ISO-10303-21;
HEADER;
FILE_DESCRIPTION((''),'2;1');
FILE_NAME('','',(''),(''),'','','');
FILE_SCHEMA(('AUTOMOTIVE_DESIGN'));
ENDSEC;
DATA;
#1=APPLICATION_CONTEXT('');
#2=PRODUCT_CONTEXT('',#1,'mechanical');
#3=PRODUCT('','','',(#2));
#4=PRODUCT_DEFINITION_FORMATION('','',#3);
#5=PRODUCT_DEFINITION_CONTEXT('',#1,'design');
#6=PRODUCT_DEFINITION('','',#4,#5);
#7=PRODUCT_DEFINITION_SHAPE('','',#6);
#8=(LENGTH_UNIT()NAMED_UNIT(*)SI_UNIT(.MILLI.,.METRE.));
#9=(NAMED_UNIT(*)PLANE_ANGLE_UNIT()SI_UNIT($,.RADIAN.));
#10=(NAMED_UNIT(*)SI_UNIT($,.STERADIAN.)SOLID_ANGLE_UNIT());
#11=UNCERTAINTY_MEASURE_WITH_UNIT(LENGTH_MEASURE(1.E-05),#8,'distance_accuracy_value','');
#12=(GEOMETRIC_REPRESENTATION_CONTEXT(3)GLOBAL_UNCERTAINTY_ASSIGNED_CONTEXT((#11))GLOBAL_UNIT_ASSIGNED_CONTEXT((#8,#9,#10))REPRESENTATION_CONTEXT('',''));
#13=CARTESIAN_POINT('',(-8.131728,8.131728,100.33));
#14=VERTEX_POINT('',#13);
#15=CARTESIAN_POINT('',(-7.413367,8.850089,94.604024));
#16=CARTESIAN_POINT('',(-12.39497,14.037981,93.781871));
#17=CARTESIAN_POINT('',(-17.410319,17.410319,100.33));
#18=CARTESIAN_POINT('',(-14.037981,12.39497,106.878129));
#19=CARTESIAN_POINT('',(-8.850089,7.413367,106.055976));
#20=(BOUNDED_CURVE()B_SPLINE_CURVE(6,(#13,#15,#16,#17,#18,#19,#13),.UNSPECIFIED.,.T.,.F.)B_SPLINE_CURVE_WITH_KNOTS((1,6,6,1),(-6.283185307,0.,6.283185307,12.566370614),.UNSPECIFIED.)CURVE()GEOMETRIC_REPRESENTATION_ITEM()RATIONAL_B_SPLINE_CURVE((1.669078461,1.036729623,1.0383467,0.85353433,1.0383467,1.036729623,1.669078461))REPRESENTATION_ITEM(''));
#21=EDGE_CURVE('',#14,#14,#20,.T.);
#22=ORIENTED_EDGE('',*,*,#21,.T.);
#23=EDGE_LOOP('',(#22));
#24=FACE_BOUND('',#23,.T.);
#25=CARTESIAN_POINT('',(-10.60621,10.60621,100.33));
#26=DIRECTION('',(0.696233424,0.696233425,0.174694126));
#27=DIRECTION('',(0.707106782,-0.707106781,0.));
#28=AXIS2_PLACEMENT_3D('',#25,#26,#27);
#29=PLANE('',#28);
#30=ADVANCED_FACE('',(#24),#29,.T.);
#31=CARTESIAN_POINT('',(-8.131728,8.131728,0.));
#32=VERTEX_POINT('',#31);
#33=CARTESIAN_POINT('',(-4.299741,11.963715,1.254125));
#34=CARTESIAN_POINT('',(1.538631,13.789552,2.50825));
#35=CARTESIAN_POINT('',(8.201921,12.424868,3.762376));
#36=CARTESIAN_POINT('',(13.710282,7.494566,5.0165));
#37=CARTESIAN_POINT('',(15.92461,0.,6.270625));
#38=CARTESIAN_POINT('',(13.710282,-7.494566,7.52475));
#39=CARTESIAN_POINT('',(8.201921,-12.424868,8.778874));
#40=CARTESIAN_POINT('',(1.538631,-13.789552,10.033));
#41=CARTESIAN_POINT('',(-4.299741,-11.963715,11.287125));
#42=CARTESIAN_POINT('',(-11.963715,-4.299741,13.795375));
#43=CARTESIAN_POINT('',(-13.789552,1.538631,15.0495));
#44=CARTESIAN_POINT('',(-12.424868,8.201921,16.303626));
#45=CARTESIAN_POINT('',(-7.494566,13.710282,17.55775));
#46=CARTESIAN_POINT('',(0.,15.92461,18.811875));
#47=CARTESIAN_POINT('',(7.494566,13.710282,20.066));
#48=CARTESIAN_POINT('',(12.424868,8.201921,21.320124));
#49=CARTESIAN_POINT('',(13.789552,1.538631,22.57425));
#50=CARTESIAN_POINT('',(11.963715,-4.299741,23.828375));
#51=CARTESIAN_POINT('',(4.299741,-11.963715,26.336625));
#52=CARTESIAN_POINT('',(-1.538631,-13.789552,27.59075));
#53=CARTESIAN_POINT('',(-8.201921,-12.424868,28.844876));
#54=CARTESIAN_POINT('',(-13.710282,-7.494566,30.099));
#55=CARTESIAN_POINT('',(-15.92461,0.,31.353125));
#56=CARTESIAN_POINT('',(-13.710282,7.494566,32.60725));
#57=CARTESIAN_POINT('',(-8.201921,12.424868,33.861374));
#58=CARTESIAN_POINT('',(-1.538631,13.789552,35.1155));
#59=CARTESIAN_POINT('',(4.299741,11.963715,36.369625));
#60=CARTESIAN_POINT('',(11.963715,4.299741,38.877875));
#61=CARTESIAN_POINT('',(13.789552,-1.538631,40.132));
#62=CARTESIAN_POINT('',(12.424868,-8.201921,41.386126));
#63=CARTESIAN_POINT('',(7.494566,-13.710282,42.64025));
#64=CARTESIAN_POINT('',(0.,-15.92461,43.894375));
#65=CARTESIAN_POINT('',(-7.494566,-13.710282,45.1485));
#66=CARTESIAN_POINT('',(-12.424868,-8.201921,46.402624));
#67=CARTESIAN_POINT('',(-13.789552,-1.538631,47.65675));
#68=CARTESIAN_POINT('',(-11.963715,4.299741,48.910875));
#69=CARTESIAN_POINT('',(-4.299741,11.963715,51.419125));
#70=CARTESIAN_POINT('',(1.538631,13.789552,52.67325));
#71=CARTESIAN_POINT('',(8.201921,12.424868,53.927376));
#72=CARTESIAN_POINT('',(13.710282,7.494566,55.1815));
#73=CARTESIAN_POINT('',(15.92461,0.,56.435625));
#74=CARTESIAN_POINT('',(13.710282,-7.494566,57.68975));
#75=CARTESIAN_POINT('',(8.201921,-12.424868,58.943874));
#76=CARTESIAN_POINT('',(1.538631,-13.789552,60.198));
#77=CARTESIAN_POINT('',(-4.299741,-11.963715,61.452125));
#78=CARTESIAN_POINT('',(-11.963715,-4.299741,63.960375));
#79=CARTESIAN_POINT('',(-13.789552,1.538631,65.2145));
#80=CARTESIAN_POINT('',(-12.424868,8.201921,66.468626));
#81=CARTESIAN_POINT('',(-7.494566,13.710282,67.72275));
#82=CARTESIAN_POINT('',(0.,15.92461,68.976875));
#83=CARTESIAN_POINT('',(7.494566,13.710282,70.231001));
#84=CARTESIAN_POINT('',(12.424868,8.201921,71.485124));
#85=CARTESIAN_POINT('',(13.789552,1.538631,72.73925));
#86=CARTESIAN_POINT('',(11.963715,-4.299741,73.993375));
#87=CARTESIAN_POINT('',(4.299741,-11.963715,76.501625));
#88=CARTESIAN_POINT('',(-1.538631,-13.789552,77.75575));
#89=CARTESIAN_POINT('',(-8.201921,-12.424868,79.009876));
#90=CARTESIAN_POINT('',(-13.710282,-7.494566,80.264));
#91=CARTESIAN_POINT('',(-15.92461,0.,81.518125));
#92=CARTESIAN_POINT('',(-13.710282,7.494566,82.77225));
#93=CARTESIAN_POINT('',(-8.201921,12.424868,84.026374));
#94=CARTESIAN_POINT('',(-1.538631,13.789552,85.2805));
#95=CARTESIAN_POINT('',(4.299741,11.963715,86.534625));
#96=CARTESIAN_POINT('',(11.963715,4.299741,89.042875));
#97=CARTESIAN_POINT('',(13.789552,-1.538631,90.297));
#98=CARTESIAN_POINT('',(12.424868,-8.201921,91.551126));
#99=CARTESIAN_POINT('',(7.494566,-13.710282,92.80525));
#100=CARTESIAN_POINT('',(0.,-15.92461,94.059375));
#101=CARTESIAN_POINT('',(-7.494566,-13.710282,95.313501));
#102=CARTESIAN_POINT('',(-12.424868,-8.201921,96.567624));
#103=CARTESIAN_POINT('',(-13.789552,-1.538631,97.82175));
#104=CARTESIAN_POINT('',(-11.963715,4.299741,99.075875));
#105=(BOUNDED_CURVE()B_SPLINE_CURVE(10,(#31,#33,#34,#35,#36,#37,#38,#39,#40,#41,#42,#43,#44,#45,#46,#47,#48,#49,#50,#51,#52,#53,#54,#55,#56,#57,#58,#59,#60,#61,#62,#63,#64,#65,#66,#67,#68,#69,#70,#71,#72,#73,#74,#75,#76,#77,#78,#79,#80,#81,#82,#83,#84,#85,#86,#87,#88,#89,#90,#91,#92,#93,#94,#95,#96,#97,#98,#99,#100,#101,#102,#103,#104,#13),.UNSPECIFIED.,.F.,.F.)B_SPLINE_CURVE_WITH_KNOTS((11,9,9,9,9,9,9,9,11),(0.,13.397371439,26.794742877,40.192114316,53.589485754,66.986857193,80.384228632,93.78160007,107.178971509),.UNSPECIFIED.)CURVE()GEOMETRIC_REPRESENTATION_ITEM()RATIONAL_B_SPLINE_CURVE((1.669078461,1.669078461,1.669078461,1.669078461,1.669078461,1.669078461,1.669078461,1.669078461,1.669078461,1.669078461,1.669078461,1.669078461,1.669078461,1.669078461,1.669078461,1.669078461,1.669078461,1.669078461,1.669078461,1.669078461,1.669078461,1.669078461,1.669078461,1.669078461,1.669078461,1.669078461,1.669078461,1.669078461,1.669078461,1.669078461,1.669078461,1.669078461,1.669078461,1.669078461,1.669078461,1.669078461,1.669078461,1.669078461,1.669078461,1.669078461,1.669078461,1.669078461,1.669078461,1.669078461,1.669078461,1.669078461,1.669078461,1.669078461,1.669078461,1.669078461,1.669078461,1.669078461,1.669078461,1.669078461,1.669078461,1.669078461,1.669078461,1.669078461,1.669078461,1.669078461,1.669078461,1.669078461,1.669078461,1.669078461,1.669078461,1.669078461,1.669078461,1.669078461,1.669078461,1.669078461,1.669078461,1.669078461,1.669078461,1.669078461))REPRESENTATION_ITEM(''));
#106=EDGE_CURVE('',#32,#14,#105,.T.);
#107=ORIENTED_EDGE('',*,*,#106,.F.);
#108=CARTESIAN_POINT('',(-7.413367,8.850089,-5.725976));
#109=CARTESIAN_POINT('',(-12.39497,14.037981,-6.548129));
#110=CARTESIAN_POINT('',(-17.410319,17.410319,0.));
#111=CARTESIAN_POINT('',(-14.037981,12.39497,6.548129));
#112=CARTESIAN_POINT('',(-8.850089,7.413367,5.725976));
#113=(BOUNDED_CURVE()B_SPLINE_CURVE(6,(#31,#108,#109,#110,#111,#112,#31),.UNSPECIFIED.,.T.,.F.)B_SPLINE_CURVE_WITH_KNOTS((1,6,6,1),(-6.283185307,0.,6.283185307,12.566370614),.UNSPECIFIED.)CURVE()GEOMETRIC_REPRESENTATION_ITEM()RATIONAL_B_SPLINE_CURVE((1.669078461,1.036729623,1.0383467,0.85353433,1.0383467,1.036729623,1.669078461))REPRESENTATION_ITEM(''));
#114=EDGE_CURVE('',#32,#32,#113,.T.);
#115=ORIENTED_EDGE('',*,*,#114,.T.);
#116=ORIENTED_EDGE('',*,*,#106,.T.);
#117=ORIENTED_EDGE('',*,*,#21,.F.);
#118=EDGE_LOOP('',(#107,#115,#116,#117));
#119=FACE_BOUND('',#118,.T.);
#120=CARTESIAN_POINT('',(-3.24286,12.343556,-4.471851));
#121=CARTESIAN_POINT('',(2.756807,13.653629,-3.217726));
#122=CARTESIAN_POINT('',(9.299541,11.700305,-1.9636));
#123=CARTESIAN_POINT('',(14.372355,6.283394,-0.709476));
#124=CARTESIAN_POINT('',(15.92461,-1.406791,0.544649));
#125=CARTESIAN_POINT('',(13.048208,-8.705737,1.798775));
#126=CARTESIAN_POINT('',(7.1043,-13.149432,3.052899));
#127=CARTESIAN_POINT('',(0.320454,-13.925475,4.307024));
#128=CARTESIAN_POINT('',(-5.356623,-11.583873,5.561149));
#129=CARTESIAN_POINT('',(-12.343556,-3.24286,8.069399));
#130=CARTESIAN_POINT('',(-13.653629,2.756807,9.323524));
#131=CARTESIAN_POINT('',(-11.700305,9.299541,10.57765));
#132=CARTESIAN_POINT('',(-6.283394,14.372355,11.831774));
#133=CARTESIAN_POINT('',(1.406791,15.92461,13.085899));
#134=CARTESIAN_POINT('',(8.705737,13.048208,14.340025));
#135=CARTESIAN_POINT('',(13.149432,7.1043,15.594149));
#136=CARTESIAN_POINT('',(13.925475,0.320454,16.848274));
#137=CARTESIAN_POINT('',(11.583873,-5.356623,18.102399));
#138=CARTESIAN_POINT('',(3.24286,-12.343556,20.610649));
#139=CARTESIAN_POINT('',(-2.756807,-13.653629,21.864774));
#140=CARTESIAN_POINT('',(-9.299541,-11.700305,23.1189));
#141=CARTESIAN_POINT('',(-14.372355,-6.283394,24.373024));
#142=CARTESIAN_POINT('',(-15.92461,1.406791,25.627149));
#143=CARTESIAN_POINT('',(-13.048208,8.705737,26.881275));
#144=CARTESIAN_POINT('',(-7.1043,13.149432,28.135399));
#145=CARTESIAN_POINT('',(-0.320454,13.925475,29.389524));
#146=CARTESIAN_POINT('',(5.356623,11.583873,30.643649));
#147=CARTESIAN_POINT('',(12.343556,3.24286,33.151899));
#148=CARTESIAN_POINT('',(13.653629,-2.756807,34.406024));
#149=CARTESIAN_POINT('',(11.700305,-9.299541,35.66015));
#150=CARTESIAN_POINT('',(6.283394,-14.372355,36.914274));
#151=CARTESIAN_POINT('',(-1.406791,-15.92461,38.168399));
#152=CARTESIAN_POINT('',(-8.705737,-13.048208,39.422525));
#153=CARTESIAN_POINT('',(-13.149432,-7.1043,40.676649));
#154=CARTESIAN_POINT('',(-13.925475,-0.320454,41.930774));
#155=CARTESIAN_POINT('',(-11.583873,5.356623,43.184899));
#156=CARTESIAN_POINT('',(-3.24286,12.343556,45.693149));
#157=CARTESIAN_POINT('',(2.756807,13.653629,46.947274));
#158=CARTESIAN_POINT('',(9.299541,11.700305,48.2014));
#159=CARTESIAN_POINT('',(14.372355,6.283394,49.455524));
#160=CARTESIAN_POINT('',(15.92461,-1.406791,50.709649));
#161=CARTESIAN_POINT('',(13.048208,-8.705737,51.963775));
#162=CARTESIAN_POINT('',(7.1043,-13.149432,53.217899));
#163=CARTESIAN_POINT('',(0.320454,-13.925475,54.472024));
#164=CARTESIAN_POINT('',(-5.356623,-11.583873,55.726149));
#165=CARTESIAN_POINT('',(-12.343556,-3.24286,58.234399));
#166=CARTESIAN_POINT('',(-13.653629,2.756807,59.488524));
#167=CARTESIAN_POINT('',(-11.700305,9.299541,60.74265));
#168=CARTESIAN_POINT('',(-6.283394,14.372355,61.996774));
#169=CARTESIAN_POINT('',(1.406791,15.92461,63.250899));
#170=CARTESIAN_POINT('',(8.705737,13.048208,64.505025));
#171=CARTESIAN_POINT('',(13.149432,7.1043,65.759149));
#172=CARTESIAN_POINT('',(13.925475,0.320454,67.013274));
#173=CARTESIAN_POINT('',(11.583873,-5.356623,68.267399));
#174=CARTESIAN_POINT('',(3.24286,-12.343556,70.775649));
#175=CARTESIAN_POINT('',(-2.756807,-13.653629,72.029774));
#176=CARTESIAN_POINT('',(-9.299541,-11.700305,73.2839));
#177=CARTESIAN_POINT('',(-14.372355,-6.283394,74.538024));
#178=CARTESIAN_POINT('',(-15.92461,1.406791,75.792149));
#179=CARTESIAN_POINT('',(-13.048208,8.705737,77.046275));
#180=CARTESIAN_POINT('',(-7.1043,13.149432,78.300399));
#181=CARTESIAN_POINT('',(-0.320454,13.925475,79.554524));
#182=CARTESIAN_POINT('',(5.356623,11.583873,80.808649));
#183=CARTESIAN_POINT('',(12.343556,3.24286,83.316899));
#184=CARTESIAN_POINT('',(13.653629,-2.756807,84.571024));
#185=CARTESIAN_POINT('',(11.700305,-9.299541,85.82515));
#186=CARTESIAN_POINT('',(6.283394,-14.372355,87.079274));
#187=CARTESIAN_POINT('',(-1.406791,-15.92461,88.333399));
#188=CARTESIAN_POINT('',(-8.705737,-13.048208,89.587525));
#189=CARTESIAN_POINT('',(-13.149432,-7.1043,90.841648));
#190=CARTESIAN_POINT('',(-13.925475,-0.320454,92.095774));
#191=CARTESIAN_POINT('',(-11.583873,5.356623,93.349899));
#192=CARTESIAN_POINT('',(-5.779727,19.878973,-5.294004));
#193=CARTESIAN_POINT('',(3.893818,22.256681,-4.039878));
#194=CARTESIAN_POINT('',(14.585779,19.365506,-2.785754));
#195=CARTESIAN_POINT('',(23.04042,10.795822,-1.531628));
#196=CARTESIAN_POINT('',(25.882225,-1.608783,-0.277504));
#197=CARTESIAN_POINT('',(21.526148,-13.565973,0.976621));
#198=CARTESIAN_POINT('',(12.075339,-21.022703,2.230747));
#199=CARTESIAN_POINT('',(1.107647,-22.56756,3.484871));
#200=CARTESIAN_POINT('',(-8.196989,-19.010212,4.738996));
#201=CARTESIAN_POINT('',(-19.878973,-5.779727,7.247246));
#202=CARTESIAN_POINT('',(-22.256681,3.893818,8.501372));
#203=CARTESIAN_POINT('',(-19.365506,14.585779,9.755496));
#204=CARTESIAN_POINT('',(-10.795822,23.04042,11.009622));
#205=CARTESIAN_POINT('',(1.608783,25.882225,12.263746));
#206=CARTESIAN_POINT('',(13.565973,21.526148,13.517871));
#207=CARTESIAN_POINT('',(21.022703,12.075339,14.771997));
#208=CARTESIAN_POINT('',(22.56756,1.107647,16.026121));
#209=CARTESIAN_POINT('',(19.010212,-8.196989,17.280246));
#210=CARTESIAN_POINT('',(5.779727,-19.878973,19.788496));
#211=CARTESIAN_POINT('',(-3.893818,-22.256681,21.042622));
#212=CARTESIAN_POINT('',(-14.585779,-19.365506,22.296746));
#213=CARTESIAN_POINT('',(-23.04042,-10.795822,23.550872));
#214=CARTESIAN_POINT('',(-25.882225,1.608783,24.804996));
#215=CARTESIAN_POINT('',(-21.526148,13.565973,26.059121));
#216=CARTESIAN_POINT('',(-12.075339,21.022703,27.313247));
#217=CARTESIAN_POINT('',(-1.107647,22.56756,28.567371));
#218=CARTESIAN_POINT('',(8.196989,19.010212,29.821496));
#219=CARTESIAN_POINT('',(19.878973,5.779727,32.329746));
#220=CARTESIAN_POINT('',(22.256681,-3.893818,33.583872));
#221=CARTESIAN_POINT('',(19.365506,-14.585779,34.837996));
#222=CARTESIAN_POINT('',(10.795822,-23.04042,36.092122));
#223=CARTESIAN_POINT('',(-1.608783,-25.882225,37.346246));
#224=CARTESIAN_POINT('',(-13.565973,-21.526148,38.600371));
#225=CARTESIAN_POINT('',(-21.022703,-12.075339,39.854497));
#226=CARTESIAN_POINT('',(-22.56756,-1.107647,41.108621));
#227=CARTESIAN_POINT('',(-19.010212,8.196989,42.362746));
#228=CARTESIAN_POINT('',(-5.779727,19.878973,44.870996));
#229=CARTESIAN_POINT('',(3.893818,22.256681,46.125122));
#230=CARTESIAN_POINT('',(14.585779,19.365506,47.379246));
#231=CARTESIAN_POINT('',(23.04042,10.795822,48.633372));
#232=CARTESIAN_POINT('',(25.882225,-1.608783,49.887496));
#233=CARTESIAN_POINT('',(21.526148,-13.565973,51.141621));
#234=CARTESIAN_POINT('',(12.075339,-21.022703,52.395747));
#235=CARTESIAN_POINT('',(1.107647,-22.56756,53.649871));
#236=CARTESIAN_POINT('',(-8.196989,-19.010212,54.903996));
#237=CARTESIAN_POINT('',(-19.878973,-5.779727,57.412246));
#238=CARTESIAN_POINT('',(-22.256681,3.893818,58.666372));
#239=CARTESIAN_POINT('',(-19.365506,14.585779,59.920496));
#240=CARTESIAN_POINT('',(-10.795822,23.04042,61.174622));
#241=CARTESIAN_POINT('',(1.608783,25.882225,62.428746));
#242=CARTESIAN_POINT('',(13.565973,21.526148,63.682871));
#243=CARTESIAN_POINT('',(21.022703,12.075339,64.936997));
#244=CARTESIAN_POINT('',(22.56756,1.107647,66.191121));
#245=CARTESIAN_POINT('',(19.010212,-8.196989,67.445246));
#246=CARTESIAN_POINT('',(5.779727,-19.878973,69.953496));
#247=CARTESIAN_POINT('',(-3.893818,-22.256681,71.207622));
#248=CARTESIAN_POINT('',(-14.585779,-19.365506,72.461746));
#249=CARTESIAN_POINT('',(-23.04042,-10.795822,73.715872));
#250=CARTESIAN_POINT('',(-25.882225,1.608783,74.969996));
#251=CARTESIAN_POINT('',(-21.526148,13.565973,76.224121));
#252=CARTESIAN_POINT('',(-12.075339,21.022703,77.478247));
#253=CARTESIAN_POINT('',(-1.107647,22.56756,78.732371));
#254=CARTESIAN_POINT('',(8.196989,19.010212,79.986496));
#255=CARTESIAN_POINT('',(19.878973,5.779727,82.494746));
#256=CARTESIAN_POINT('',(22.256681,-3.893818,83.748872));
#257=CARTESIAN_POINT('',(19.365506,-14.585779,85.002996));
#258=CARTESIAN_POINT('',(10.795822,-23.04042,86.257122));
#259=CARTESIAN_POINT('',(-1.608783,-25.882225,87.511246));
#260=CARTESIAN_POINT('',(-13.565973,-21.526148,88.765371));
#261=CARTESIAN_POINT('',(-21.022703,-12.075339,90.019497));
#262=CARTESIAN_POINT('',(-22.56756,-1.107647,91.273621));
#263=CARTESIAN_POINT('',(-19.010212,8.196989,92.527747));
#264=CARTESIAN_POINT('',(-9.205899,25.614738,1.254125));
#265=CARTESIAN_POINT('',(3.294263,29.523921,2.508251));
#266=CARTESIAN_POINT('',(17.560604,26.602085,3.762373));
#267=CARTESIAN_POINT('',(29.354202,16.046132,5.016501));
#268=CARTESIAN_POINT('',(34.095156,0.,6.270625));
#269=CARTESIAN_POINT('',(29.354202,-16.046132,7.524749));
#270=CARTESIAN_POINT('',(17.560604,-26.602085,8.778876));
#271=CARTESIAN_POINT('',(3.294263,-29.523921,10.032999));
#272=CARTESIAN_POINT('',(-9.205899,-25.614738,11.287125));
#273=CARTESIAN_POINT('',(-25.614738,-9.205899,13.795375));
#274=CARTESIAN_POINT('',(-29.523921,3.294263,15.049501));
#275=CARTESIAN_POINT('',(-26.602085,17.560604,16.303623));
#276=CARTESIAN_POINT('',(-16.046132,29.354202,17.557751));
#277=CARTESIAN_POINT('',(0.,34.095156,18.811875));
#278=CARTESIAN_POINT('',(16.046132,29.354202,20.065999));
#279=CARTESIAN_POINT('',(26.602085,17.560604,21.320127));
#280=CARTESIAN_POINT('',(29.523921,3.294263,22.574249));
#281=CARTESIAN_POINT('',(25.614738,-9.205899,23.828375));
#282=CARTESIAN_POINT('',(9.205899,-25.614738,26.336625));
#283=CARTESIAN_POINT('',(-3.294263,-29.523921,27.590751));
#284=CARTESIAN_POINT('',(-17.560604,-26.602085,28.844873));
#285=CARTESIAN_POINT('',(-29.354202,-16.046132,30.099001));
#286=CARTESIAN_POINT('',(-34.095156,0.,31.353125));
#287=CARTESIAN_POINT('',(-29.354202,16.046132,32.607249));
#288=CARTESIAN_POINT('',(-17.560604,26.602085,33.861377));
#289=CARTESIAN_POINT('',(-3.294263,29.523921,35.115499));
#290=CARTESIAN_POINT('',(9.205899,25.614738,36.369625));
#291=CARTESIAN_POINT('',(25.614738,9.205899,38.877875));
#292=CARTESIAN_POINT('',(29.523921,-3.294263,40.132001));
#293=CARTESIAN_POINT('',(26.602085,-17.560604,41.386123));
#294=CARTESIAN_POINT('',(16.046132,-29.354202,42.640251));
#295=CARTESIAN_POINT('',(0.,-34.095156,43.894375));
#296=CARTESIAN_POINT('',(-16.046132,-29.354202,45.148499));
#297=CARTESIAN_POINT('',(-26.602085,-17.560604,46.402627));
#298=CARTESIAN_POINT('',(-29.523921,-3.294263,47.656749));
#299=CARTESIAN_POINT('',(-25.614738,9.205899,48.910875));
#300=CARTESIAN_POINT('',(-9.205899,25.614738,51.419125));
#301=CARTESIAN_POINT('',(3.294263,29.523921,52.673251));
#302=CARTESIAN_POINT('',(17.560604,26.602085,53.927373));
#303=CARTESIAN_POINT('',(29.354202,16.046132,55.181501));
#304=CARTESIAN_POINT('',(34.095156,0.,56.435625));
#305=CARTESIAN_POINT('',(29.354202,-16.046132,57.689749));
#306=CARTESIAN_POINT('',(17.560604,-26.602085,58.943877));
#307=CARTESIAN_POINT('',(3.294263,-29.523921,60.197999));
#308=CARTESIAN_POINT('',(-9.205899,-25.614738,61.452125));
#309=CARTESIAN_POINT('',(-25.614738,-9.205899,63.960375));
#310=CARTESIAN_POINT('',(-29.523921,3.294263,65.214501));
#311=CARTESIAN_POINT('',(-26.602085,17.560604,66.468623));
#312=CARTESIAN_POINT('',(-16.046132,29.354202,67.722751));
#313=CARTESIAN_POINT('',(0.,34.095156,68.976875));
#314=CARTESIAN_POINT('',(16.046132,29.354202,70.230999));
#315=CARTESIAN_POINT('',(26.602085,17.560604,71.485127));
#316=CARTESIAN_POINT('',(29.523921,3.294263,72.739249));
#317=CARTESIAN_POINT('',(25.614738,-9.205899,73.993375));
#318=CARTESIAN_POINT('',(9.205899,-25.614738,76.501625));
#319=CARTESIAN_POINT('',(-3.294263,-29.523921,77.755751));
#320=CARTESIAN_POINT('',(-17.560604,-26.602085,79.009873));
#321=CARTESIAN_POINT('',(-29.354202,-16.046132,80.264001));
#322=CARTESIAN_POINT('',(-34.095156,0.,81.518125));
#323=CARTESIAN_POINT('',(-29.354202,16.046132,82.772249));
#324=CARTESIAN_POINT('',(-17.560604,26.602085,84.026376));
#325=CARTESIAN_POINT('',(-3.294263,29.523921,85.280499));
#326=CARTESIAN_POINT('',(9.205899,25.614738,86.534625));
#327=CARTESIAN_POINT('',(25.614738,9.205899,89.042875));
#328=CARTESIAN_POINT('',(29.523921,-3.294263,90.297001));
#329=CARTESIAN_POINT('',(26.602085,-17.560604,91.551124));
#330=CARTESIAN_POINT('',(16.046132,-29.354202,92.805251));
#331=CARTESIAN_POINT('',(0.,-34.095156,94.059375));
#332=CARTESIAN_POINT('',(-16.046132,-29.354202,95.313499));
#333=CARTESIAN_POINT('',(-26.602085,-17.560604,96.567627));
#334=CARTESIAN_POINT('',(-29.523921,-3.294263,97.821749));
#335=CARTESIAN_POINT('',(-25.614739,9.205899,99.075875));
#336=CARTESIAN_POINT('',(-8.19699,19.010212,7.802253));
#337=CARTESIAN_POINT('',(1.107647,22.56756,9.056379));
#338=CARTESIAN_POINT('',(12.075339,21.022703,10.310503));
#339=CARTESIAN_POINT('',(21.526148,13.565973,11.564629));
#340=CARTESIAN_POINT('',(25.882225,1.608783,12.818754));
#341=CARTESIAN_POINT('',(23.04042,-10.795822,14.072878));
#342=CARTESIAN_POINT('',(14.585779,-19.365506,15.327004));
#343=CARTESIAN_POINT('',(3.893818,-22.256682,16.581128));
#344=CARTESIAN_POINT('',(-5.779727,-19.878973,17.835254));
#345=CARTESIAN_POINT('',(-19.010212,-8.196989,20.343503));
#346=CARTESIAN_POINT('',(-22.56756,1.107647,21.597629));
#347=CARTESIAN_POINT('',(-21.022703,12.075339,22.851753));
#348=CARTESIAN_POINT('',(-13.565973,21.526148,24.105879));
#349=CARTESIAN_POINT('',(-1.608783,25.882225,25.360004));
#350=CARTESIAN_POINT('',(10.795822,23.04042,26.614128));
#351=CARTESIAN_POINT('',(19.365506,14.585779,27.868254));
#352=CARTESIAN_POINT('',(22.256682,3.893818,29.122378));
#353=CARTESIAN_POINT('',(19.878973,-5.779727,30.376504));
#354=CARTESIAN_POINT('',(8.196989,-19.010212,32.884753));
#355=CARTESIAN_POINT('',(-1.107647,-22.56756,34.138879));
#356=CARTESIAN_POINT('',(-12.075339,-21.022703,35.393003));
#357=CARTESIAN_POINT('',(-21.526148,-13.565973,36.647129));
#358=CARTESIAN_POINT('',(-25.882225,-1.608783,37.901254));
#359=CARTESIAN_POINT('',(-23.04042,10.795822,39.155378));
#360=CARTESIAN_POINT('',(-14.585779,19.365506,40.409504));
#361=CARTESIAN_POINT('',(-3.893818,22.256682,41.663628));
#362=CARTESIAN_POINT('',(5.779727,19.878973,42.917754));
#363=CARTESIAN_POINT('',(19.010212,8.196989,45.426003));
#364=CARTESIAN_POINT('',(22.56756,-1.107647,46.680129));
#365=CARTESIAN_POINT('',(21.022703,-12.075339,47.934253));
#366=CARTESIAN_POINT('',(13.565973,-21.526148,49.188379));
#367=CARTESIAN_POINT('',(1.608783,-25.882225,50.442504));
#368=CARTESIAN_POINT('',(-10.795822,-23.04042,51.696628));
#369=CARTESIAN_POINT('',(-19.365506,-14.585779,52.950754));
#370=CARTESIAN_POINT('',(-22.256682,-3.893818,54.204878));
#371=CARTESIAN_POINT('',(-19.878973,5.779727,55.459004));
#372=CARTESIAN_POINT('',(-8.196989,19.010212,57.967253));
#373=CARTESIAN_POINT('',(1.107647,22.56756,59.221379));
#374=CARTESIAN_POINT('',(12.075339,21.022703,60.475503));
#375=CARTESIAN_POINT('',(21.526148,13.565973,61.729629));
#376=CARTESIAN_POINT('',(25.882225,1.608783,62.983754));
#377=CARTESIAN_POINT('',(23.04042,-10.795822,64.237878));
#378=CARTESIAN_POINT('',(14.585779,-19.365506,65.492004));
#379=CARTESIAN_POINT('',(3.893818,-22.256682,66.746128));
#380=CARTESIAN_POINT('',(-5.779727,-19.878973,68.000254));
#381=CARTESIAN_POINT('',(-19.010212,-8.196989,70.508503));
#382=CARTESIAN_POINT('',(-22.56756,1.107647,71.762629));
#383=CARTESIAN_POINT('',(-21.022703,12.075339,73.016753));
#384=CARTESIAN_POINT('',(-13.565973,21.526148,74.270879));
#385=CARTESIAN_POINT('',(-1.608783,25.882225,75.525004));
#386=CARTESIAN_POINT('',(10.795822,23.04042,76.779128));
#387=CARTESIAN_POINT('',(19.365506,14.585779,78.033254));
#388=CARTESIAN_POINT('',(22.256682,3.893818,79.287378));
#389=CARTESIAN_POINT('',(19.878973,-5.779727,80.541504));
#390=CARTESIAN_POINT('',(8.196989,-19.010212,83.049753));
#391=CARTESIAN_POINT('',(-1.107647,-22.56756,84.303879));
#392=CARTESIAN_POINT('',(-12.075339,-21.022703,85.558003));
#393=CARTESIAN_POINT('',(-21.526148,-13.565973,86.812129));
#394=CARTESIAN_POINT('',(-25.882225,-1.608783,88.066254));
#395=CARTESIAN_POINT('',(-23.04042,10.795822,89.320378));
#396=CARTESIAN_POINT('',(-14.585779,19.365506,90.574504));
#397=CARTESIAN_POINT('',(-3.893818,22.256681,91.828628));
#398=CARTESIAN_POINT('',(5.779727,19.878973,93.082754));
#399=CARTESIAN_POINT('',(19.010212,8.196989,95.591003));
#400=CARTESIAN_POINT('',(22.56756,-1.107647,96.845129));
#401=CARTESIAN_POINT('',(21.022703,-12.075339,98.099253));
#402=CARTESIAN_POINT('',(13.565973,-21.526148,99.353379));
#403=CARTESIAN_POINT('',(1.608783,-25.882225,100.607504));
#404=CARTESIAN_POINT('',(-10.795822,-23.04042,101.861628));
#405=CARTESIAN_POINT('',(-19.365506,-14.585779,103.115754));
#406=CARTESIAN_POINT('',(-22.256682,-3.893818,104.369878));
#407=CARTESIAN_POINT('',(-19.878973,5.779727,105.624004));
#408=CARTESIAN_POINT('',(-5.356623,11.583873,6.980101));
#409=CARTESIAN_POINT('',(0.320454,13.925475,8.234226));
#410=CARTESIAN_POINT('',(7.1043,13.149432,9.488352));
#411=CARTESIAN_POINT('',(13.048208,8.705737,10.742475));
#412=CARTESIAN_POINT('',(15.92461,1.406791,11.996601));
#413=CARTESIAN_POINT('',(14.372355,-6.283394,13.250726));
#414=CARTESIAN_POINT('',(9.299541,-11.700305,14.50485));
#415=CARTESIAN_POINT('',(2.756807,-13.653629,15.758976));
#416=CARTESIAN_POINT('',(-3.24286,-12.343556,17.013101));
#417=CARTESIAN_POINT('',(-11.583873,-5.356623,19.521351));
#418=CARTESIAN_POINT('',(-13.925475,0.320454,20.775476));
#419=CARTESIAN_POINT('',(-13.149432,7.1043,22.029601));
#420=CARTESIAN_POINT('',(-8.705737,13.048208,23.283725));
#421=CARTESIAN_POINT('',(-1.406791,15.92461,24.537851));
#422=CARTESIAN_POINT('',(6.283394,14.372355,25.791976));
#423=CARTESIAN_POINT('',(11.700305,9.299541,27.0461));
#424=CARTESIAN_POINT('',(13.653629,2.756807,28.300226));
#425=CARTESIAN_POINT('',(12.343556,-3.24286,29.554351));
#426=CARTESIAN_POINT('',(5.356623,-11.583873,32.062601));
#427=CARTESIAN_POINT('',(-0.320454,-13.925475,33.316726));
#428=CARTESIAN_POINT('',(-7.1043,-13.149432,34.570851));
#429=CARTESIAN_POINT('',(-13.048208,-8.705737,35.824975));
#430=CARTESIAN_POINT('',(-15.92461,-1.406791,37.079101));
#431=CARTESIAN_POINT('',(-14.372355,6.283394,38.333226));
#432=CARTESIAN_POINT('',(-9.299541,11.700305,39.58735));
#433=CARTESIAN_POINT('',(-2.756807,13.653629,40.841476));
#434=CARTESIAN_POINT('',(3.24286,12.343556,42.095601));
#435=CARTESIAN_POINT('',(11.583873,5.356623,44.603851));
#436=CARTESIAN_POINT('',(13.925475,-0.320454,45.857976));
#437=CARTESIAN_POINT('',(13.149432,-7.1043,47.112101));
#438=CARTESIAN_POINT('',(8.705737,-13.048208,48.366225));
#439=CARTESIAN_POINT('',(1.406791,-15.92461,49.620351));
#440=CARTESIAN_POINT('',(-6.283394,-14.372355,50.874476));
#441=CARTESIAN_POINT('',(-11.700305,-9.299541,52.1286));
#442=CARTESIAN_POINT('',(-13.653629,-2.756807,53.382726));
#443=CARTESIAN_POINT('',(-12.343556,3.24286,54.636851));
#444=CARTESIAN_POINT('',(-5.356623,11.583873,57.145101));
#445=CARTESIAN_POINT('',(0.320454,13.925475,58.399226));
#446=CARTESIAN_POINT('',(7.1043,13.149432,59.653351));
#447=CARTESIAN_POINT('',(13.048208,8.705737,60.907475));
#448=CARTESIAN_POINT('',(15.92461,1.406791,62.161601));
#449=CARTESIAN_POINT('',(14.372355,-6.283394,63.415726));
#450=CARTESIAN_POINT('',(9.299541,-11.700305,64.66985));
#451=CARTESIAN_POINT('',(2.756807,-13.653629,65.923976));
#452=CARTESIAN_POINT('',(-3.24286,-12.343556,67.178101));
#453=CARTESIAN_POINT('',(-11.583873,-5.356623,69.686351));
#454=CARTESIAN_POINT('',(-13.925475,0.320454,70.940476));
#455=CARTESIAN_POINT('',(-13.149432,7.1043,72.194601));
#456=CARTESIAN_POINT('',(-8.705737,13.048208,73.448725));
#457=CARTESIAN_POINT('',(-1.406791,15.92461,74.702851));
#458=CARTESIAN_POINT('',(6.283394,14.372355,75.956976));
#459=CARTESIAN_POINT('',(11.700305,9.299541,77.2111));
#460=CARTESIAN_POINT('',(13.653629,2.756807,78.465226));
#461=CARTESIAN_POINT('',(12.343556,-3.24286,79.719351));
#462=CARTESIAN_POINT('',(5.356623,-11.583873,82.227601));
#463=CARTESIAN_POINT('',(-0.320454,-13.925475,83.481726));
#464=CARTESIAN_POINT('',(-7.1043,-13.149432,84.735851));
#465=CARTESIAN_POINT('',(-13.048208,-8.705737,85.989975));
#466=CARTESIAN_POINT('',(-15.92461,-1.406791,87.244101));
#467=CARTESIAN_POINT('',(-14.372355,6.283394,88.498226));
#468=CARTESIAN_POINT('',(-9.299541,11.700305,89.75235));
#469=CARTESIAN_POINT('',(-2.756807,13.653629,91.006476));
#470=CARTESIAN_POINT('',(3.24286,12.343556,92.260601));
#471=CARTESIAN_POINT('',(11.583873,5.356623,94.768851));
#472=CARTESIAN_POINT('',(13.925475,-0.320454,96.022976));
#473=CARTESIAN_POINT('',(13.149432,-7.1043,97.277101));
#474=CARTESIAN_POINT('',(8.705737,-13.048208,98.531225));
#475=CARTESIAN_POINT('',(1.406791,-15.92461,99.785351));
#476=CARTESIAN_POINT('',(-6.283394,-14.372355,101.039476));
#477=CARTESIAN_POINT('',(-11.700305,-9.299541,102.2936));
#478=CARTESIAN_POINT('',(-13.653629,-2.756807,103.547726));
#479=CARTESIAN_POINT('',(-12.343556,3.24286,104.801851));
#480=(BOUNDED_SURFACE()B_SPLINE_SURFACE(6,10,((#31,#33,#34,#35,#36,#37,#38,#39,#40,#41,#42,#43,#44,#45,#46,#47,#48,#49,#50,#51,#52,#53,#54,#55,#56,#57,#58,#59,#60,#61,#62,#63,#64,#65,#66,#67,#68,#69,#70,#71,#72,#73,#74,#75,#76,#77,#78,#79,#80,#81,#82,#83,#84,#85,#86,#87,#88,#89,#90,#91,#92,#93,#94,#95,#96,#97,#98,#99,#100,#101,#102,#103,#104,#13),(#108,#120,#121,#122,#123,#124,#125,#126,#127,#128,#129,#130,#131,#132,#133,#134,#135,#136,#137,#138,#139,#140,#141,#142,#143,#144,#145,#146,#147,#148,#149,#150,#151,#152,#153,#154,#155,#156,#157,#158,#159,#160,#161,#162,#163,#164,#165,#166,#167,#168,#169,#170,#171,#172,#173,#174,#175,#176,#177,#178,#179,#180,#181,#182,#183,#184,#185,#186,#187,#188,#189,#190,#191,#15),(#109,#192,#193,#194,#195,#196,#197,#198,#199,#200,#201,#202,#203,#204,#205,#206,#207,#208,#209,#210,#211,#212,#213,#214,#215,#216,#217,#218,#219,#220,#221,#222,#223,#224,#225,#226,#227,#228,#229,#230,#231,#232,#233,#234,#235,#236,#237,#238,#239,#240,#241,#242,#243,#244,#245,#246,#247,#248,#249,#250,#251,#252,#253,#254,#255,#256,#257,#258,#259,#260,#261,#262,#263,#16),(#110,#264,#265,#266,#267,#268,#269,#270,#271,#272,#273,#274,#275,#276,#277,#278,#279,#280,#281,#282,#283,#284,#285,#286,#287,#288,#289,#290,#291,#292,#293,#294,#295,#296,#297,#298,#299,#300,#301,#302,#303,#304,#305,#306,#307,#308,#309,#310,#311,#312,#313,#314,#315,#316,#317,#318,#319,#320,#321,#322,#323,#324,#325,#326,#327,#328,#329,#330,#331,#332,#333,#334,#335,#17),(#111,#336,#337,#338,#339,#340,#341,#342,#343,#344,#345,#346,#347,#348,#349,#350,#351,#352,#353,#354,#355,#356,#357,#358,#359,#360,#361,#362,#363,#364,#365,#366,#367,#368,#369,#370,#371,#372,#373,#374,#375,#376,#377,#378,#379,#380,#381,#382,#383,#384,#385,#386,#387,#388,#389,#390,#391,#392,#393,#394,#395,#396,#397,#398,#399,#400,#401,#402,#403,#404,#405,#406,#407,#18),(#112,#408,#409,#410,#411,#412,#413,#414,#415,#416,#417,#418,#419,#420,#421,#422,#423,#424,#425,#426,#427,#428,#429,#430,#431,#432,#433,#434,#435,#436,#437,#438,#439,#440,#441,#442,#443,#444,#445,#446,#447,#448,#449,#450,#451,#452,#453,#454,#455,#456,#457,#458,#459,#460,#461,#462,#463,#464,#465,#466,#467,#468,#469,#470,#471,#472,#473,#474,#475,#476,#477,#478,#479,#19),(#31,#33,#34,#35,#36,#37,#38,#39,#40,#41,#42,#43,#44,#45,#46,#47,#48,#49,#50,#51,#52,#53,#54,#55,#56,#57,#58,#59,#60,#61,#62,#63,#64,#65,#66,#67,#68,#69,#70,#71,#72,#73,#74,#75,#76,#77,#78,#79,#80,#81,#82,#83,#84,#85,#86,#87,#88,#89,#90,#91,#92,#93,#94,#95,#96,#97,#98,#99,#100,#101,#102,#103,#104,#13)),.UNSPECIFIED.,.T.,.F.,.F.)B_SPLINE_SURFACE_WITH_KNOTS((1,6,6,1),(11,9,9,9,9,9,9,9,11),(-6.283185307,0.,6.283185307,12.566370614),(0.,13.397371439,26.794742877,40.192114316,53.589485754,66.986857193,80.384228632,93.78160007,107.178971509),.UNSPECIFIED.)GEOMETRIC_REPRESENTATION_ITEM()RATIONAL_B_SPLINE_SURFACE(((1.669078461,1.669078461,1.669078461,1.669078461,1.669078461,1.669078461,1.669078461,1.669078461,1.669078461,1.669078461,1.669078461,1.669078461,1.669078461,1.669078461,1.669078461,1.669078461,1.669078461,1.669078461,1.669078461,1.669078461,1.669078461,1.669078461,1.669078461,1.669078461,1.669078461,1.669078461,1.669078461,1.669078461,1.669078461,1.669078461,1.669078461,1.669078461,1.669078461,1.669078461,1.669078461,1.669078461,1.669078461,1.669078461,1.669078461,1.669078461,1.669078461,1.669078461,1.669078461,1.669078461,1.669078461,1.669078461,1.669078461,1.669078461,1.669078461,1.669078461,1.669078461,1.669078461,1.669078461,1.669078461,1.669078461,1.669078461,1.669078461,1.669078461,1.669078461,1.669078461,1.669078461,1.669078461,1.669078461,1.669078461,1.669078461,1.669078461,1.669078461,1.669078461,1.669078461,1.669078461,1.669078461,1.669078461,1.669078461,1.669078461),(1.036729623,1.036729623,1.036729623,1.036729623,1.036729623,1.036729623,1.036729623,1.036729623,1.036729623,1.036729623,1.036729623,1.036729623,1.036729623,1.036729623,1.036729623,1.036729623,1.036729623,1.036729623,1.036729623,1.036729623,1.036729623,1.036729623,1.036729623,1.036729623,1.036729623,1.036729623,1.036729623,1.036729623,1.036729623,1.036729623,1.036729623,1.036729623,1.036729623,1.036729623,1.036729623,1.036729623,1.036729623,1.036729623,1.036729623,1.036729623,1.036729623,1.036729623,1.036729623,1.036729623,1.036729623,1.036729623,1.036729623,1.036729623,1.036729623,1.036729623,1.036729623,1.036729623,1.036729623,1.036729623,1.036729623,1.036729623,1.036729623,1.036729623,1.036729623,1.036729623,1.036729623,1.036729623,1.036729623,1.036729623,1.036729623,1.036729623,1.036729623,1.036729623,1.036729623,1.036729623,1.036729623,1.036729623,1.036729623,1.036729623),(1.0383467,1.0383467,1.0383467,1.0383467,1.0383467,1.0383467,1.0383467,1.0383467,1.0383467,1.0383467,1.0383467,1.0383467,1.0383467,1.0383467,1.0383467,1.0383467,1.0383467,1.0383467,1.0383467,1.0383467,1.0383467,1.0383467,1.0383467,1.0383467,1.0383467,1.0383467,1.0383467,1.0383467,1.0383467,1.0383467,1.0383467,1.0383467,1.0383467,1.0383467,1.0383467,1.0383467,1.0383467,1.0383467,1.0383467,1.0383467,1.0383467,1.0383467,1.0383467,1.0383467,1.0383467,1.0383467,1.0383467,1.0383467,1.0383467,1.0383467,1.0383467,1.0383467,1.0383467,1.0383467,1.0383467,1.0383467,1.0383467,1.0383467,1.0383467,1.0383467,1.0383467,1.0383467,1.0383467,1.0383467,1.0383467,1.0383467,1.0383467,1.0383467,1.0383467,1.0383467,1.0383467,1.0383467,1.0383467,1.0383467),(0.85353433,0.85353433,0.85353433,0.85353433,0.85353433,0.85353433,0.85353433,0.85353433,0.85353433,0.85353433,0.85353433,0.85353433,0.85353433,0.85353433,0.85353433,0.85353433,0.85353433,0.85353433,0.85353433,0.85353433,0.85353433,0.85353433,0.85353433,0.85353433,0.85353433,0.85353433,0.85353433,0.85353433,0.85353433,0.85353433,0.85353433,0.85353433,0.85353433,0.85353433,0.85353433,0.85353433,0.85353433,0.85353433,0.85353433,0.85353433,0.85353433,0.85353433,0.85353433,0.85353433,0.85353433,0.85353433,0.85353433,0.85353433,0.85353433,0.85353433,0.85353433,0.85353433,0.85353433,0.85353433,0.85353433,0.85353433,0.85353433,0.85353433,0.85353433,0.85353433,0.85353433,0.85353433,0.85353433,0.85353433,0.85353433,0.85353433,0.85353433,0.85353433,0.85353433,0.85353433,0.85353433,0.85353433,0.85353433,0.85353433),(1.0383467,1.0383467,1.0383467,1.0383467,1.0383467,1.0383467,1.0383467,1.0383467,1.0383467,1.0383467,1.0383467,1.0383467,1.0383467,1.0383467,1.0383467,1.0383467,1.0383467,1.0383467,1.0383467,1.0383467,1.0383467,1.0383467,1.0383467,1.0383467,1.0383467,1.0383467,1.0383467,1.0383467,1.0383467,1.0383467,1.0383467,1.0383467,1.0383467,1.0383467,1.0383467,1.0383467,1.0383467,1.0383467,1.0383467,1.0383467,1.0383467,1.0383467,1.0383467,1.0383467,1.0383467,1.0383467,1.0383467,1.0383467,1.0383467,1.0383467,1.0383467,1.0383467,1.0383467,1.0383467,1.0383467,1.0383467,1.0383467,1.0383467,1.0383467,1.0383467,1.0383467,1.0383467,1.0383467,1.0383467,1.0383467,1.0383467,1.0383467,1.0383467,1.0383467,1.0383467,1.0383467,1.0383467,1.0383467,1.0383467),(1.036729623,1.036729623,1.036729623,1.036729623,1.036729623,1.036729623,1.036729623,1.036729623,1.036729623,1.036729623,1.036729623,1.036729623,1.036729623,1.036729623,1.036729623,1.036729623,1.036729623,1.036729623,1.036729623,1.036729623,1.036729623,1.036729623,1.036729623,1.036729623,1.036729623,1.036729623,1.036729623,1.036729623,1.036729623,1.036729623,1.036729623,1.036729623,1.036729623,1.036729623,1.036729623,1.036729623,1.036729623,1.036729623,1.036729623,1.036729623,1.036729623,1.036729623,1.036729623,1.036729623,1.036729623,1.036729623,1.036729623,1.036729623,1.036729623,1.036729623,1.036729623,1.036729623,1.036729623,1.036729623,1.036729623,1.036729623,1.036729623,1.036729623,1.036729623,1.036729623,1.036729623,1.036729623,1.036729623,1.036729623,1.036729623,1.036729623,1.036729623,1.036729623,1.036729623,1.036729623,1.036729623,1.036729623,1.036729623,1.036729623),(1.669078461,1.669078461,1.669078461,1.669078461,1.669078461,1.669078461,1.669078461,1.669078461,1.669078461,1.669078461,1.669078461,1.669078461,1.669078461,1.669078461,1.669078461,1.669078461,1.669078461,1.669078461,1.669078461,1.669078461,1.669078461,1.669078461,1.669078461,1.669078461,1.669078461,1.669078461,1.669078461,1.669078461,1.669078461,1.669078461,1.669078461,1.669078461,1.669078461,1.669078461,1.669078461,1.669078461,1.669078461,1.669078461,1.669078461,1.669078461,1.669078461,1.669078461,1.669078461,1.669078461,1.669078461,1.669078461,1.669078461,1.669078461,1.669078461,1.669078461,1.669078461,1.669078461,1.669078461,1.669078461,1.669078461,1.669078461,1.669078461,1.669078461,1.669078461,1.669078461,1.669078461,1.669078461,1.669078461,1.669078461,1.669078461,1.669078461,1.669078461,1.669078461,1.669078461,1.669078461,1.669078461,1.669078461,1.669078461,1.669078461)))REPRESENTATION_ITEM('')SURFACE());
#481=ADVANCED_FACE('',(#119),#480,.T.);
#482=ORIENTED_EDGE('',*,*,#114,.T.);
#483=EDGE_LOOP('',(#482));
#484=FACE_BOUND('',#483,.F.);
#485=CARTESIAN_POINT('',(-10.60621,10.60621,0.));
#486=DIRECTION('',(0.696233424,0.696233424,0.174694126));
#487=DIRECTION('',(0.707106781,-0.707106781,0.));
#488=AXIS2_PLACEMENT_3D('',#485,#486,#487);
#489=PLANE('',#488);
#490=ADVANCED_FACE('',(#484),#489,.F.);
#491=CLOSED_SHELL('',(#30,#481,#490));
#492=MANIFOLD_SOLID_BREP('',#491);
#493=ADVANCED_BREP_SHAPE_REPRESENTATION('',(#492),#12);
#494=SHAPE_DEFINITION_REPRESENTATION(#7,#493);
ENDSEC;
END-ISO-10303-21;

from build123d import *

# Parameters (mm, degrees)
SWEEP1_PITCH       = 16.721666667
SWEEP1_HEIGHT      = 100.33
SWEEP1_RADIUS      = 15
SWEEP1_START_ANGLE = 135
SWEEP1_PROFILE_R   = 3.5


with BuildPart() as part:
    # Sweep1: sweep along a helix
    with BuildLine() as sweep1_path:
        add(Helix(SWEEP1_PITCH, SWEEP1_HEIGHT, SWEEP1_RADIUS, center=(0, 0, 0), direction=(0, 0, 1), lefthand=True, mode=Mode.PRIVATE).rotate(Axis((0, 0, 0), (0, 0, 1)), SWEEP1_START_ANGLE))
    # Sweep1 profile (on start of the path) → Sweep1 (sweep)
    with BuildSketch(Plane(origin=(-10.606601718, 10.606601718, 0), x_dir=(0.7071067811866592, -0.7071067811864362, 0), z_dir=(0.6962334244018221, 0.6962334244020416, 0.17469412551977548))):
        Circle(SWEEP1_PROFILE_R)
    sweep(path=sweep1_path.line, is_frenet=True)


solid = part.part
